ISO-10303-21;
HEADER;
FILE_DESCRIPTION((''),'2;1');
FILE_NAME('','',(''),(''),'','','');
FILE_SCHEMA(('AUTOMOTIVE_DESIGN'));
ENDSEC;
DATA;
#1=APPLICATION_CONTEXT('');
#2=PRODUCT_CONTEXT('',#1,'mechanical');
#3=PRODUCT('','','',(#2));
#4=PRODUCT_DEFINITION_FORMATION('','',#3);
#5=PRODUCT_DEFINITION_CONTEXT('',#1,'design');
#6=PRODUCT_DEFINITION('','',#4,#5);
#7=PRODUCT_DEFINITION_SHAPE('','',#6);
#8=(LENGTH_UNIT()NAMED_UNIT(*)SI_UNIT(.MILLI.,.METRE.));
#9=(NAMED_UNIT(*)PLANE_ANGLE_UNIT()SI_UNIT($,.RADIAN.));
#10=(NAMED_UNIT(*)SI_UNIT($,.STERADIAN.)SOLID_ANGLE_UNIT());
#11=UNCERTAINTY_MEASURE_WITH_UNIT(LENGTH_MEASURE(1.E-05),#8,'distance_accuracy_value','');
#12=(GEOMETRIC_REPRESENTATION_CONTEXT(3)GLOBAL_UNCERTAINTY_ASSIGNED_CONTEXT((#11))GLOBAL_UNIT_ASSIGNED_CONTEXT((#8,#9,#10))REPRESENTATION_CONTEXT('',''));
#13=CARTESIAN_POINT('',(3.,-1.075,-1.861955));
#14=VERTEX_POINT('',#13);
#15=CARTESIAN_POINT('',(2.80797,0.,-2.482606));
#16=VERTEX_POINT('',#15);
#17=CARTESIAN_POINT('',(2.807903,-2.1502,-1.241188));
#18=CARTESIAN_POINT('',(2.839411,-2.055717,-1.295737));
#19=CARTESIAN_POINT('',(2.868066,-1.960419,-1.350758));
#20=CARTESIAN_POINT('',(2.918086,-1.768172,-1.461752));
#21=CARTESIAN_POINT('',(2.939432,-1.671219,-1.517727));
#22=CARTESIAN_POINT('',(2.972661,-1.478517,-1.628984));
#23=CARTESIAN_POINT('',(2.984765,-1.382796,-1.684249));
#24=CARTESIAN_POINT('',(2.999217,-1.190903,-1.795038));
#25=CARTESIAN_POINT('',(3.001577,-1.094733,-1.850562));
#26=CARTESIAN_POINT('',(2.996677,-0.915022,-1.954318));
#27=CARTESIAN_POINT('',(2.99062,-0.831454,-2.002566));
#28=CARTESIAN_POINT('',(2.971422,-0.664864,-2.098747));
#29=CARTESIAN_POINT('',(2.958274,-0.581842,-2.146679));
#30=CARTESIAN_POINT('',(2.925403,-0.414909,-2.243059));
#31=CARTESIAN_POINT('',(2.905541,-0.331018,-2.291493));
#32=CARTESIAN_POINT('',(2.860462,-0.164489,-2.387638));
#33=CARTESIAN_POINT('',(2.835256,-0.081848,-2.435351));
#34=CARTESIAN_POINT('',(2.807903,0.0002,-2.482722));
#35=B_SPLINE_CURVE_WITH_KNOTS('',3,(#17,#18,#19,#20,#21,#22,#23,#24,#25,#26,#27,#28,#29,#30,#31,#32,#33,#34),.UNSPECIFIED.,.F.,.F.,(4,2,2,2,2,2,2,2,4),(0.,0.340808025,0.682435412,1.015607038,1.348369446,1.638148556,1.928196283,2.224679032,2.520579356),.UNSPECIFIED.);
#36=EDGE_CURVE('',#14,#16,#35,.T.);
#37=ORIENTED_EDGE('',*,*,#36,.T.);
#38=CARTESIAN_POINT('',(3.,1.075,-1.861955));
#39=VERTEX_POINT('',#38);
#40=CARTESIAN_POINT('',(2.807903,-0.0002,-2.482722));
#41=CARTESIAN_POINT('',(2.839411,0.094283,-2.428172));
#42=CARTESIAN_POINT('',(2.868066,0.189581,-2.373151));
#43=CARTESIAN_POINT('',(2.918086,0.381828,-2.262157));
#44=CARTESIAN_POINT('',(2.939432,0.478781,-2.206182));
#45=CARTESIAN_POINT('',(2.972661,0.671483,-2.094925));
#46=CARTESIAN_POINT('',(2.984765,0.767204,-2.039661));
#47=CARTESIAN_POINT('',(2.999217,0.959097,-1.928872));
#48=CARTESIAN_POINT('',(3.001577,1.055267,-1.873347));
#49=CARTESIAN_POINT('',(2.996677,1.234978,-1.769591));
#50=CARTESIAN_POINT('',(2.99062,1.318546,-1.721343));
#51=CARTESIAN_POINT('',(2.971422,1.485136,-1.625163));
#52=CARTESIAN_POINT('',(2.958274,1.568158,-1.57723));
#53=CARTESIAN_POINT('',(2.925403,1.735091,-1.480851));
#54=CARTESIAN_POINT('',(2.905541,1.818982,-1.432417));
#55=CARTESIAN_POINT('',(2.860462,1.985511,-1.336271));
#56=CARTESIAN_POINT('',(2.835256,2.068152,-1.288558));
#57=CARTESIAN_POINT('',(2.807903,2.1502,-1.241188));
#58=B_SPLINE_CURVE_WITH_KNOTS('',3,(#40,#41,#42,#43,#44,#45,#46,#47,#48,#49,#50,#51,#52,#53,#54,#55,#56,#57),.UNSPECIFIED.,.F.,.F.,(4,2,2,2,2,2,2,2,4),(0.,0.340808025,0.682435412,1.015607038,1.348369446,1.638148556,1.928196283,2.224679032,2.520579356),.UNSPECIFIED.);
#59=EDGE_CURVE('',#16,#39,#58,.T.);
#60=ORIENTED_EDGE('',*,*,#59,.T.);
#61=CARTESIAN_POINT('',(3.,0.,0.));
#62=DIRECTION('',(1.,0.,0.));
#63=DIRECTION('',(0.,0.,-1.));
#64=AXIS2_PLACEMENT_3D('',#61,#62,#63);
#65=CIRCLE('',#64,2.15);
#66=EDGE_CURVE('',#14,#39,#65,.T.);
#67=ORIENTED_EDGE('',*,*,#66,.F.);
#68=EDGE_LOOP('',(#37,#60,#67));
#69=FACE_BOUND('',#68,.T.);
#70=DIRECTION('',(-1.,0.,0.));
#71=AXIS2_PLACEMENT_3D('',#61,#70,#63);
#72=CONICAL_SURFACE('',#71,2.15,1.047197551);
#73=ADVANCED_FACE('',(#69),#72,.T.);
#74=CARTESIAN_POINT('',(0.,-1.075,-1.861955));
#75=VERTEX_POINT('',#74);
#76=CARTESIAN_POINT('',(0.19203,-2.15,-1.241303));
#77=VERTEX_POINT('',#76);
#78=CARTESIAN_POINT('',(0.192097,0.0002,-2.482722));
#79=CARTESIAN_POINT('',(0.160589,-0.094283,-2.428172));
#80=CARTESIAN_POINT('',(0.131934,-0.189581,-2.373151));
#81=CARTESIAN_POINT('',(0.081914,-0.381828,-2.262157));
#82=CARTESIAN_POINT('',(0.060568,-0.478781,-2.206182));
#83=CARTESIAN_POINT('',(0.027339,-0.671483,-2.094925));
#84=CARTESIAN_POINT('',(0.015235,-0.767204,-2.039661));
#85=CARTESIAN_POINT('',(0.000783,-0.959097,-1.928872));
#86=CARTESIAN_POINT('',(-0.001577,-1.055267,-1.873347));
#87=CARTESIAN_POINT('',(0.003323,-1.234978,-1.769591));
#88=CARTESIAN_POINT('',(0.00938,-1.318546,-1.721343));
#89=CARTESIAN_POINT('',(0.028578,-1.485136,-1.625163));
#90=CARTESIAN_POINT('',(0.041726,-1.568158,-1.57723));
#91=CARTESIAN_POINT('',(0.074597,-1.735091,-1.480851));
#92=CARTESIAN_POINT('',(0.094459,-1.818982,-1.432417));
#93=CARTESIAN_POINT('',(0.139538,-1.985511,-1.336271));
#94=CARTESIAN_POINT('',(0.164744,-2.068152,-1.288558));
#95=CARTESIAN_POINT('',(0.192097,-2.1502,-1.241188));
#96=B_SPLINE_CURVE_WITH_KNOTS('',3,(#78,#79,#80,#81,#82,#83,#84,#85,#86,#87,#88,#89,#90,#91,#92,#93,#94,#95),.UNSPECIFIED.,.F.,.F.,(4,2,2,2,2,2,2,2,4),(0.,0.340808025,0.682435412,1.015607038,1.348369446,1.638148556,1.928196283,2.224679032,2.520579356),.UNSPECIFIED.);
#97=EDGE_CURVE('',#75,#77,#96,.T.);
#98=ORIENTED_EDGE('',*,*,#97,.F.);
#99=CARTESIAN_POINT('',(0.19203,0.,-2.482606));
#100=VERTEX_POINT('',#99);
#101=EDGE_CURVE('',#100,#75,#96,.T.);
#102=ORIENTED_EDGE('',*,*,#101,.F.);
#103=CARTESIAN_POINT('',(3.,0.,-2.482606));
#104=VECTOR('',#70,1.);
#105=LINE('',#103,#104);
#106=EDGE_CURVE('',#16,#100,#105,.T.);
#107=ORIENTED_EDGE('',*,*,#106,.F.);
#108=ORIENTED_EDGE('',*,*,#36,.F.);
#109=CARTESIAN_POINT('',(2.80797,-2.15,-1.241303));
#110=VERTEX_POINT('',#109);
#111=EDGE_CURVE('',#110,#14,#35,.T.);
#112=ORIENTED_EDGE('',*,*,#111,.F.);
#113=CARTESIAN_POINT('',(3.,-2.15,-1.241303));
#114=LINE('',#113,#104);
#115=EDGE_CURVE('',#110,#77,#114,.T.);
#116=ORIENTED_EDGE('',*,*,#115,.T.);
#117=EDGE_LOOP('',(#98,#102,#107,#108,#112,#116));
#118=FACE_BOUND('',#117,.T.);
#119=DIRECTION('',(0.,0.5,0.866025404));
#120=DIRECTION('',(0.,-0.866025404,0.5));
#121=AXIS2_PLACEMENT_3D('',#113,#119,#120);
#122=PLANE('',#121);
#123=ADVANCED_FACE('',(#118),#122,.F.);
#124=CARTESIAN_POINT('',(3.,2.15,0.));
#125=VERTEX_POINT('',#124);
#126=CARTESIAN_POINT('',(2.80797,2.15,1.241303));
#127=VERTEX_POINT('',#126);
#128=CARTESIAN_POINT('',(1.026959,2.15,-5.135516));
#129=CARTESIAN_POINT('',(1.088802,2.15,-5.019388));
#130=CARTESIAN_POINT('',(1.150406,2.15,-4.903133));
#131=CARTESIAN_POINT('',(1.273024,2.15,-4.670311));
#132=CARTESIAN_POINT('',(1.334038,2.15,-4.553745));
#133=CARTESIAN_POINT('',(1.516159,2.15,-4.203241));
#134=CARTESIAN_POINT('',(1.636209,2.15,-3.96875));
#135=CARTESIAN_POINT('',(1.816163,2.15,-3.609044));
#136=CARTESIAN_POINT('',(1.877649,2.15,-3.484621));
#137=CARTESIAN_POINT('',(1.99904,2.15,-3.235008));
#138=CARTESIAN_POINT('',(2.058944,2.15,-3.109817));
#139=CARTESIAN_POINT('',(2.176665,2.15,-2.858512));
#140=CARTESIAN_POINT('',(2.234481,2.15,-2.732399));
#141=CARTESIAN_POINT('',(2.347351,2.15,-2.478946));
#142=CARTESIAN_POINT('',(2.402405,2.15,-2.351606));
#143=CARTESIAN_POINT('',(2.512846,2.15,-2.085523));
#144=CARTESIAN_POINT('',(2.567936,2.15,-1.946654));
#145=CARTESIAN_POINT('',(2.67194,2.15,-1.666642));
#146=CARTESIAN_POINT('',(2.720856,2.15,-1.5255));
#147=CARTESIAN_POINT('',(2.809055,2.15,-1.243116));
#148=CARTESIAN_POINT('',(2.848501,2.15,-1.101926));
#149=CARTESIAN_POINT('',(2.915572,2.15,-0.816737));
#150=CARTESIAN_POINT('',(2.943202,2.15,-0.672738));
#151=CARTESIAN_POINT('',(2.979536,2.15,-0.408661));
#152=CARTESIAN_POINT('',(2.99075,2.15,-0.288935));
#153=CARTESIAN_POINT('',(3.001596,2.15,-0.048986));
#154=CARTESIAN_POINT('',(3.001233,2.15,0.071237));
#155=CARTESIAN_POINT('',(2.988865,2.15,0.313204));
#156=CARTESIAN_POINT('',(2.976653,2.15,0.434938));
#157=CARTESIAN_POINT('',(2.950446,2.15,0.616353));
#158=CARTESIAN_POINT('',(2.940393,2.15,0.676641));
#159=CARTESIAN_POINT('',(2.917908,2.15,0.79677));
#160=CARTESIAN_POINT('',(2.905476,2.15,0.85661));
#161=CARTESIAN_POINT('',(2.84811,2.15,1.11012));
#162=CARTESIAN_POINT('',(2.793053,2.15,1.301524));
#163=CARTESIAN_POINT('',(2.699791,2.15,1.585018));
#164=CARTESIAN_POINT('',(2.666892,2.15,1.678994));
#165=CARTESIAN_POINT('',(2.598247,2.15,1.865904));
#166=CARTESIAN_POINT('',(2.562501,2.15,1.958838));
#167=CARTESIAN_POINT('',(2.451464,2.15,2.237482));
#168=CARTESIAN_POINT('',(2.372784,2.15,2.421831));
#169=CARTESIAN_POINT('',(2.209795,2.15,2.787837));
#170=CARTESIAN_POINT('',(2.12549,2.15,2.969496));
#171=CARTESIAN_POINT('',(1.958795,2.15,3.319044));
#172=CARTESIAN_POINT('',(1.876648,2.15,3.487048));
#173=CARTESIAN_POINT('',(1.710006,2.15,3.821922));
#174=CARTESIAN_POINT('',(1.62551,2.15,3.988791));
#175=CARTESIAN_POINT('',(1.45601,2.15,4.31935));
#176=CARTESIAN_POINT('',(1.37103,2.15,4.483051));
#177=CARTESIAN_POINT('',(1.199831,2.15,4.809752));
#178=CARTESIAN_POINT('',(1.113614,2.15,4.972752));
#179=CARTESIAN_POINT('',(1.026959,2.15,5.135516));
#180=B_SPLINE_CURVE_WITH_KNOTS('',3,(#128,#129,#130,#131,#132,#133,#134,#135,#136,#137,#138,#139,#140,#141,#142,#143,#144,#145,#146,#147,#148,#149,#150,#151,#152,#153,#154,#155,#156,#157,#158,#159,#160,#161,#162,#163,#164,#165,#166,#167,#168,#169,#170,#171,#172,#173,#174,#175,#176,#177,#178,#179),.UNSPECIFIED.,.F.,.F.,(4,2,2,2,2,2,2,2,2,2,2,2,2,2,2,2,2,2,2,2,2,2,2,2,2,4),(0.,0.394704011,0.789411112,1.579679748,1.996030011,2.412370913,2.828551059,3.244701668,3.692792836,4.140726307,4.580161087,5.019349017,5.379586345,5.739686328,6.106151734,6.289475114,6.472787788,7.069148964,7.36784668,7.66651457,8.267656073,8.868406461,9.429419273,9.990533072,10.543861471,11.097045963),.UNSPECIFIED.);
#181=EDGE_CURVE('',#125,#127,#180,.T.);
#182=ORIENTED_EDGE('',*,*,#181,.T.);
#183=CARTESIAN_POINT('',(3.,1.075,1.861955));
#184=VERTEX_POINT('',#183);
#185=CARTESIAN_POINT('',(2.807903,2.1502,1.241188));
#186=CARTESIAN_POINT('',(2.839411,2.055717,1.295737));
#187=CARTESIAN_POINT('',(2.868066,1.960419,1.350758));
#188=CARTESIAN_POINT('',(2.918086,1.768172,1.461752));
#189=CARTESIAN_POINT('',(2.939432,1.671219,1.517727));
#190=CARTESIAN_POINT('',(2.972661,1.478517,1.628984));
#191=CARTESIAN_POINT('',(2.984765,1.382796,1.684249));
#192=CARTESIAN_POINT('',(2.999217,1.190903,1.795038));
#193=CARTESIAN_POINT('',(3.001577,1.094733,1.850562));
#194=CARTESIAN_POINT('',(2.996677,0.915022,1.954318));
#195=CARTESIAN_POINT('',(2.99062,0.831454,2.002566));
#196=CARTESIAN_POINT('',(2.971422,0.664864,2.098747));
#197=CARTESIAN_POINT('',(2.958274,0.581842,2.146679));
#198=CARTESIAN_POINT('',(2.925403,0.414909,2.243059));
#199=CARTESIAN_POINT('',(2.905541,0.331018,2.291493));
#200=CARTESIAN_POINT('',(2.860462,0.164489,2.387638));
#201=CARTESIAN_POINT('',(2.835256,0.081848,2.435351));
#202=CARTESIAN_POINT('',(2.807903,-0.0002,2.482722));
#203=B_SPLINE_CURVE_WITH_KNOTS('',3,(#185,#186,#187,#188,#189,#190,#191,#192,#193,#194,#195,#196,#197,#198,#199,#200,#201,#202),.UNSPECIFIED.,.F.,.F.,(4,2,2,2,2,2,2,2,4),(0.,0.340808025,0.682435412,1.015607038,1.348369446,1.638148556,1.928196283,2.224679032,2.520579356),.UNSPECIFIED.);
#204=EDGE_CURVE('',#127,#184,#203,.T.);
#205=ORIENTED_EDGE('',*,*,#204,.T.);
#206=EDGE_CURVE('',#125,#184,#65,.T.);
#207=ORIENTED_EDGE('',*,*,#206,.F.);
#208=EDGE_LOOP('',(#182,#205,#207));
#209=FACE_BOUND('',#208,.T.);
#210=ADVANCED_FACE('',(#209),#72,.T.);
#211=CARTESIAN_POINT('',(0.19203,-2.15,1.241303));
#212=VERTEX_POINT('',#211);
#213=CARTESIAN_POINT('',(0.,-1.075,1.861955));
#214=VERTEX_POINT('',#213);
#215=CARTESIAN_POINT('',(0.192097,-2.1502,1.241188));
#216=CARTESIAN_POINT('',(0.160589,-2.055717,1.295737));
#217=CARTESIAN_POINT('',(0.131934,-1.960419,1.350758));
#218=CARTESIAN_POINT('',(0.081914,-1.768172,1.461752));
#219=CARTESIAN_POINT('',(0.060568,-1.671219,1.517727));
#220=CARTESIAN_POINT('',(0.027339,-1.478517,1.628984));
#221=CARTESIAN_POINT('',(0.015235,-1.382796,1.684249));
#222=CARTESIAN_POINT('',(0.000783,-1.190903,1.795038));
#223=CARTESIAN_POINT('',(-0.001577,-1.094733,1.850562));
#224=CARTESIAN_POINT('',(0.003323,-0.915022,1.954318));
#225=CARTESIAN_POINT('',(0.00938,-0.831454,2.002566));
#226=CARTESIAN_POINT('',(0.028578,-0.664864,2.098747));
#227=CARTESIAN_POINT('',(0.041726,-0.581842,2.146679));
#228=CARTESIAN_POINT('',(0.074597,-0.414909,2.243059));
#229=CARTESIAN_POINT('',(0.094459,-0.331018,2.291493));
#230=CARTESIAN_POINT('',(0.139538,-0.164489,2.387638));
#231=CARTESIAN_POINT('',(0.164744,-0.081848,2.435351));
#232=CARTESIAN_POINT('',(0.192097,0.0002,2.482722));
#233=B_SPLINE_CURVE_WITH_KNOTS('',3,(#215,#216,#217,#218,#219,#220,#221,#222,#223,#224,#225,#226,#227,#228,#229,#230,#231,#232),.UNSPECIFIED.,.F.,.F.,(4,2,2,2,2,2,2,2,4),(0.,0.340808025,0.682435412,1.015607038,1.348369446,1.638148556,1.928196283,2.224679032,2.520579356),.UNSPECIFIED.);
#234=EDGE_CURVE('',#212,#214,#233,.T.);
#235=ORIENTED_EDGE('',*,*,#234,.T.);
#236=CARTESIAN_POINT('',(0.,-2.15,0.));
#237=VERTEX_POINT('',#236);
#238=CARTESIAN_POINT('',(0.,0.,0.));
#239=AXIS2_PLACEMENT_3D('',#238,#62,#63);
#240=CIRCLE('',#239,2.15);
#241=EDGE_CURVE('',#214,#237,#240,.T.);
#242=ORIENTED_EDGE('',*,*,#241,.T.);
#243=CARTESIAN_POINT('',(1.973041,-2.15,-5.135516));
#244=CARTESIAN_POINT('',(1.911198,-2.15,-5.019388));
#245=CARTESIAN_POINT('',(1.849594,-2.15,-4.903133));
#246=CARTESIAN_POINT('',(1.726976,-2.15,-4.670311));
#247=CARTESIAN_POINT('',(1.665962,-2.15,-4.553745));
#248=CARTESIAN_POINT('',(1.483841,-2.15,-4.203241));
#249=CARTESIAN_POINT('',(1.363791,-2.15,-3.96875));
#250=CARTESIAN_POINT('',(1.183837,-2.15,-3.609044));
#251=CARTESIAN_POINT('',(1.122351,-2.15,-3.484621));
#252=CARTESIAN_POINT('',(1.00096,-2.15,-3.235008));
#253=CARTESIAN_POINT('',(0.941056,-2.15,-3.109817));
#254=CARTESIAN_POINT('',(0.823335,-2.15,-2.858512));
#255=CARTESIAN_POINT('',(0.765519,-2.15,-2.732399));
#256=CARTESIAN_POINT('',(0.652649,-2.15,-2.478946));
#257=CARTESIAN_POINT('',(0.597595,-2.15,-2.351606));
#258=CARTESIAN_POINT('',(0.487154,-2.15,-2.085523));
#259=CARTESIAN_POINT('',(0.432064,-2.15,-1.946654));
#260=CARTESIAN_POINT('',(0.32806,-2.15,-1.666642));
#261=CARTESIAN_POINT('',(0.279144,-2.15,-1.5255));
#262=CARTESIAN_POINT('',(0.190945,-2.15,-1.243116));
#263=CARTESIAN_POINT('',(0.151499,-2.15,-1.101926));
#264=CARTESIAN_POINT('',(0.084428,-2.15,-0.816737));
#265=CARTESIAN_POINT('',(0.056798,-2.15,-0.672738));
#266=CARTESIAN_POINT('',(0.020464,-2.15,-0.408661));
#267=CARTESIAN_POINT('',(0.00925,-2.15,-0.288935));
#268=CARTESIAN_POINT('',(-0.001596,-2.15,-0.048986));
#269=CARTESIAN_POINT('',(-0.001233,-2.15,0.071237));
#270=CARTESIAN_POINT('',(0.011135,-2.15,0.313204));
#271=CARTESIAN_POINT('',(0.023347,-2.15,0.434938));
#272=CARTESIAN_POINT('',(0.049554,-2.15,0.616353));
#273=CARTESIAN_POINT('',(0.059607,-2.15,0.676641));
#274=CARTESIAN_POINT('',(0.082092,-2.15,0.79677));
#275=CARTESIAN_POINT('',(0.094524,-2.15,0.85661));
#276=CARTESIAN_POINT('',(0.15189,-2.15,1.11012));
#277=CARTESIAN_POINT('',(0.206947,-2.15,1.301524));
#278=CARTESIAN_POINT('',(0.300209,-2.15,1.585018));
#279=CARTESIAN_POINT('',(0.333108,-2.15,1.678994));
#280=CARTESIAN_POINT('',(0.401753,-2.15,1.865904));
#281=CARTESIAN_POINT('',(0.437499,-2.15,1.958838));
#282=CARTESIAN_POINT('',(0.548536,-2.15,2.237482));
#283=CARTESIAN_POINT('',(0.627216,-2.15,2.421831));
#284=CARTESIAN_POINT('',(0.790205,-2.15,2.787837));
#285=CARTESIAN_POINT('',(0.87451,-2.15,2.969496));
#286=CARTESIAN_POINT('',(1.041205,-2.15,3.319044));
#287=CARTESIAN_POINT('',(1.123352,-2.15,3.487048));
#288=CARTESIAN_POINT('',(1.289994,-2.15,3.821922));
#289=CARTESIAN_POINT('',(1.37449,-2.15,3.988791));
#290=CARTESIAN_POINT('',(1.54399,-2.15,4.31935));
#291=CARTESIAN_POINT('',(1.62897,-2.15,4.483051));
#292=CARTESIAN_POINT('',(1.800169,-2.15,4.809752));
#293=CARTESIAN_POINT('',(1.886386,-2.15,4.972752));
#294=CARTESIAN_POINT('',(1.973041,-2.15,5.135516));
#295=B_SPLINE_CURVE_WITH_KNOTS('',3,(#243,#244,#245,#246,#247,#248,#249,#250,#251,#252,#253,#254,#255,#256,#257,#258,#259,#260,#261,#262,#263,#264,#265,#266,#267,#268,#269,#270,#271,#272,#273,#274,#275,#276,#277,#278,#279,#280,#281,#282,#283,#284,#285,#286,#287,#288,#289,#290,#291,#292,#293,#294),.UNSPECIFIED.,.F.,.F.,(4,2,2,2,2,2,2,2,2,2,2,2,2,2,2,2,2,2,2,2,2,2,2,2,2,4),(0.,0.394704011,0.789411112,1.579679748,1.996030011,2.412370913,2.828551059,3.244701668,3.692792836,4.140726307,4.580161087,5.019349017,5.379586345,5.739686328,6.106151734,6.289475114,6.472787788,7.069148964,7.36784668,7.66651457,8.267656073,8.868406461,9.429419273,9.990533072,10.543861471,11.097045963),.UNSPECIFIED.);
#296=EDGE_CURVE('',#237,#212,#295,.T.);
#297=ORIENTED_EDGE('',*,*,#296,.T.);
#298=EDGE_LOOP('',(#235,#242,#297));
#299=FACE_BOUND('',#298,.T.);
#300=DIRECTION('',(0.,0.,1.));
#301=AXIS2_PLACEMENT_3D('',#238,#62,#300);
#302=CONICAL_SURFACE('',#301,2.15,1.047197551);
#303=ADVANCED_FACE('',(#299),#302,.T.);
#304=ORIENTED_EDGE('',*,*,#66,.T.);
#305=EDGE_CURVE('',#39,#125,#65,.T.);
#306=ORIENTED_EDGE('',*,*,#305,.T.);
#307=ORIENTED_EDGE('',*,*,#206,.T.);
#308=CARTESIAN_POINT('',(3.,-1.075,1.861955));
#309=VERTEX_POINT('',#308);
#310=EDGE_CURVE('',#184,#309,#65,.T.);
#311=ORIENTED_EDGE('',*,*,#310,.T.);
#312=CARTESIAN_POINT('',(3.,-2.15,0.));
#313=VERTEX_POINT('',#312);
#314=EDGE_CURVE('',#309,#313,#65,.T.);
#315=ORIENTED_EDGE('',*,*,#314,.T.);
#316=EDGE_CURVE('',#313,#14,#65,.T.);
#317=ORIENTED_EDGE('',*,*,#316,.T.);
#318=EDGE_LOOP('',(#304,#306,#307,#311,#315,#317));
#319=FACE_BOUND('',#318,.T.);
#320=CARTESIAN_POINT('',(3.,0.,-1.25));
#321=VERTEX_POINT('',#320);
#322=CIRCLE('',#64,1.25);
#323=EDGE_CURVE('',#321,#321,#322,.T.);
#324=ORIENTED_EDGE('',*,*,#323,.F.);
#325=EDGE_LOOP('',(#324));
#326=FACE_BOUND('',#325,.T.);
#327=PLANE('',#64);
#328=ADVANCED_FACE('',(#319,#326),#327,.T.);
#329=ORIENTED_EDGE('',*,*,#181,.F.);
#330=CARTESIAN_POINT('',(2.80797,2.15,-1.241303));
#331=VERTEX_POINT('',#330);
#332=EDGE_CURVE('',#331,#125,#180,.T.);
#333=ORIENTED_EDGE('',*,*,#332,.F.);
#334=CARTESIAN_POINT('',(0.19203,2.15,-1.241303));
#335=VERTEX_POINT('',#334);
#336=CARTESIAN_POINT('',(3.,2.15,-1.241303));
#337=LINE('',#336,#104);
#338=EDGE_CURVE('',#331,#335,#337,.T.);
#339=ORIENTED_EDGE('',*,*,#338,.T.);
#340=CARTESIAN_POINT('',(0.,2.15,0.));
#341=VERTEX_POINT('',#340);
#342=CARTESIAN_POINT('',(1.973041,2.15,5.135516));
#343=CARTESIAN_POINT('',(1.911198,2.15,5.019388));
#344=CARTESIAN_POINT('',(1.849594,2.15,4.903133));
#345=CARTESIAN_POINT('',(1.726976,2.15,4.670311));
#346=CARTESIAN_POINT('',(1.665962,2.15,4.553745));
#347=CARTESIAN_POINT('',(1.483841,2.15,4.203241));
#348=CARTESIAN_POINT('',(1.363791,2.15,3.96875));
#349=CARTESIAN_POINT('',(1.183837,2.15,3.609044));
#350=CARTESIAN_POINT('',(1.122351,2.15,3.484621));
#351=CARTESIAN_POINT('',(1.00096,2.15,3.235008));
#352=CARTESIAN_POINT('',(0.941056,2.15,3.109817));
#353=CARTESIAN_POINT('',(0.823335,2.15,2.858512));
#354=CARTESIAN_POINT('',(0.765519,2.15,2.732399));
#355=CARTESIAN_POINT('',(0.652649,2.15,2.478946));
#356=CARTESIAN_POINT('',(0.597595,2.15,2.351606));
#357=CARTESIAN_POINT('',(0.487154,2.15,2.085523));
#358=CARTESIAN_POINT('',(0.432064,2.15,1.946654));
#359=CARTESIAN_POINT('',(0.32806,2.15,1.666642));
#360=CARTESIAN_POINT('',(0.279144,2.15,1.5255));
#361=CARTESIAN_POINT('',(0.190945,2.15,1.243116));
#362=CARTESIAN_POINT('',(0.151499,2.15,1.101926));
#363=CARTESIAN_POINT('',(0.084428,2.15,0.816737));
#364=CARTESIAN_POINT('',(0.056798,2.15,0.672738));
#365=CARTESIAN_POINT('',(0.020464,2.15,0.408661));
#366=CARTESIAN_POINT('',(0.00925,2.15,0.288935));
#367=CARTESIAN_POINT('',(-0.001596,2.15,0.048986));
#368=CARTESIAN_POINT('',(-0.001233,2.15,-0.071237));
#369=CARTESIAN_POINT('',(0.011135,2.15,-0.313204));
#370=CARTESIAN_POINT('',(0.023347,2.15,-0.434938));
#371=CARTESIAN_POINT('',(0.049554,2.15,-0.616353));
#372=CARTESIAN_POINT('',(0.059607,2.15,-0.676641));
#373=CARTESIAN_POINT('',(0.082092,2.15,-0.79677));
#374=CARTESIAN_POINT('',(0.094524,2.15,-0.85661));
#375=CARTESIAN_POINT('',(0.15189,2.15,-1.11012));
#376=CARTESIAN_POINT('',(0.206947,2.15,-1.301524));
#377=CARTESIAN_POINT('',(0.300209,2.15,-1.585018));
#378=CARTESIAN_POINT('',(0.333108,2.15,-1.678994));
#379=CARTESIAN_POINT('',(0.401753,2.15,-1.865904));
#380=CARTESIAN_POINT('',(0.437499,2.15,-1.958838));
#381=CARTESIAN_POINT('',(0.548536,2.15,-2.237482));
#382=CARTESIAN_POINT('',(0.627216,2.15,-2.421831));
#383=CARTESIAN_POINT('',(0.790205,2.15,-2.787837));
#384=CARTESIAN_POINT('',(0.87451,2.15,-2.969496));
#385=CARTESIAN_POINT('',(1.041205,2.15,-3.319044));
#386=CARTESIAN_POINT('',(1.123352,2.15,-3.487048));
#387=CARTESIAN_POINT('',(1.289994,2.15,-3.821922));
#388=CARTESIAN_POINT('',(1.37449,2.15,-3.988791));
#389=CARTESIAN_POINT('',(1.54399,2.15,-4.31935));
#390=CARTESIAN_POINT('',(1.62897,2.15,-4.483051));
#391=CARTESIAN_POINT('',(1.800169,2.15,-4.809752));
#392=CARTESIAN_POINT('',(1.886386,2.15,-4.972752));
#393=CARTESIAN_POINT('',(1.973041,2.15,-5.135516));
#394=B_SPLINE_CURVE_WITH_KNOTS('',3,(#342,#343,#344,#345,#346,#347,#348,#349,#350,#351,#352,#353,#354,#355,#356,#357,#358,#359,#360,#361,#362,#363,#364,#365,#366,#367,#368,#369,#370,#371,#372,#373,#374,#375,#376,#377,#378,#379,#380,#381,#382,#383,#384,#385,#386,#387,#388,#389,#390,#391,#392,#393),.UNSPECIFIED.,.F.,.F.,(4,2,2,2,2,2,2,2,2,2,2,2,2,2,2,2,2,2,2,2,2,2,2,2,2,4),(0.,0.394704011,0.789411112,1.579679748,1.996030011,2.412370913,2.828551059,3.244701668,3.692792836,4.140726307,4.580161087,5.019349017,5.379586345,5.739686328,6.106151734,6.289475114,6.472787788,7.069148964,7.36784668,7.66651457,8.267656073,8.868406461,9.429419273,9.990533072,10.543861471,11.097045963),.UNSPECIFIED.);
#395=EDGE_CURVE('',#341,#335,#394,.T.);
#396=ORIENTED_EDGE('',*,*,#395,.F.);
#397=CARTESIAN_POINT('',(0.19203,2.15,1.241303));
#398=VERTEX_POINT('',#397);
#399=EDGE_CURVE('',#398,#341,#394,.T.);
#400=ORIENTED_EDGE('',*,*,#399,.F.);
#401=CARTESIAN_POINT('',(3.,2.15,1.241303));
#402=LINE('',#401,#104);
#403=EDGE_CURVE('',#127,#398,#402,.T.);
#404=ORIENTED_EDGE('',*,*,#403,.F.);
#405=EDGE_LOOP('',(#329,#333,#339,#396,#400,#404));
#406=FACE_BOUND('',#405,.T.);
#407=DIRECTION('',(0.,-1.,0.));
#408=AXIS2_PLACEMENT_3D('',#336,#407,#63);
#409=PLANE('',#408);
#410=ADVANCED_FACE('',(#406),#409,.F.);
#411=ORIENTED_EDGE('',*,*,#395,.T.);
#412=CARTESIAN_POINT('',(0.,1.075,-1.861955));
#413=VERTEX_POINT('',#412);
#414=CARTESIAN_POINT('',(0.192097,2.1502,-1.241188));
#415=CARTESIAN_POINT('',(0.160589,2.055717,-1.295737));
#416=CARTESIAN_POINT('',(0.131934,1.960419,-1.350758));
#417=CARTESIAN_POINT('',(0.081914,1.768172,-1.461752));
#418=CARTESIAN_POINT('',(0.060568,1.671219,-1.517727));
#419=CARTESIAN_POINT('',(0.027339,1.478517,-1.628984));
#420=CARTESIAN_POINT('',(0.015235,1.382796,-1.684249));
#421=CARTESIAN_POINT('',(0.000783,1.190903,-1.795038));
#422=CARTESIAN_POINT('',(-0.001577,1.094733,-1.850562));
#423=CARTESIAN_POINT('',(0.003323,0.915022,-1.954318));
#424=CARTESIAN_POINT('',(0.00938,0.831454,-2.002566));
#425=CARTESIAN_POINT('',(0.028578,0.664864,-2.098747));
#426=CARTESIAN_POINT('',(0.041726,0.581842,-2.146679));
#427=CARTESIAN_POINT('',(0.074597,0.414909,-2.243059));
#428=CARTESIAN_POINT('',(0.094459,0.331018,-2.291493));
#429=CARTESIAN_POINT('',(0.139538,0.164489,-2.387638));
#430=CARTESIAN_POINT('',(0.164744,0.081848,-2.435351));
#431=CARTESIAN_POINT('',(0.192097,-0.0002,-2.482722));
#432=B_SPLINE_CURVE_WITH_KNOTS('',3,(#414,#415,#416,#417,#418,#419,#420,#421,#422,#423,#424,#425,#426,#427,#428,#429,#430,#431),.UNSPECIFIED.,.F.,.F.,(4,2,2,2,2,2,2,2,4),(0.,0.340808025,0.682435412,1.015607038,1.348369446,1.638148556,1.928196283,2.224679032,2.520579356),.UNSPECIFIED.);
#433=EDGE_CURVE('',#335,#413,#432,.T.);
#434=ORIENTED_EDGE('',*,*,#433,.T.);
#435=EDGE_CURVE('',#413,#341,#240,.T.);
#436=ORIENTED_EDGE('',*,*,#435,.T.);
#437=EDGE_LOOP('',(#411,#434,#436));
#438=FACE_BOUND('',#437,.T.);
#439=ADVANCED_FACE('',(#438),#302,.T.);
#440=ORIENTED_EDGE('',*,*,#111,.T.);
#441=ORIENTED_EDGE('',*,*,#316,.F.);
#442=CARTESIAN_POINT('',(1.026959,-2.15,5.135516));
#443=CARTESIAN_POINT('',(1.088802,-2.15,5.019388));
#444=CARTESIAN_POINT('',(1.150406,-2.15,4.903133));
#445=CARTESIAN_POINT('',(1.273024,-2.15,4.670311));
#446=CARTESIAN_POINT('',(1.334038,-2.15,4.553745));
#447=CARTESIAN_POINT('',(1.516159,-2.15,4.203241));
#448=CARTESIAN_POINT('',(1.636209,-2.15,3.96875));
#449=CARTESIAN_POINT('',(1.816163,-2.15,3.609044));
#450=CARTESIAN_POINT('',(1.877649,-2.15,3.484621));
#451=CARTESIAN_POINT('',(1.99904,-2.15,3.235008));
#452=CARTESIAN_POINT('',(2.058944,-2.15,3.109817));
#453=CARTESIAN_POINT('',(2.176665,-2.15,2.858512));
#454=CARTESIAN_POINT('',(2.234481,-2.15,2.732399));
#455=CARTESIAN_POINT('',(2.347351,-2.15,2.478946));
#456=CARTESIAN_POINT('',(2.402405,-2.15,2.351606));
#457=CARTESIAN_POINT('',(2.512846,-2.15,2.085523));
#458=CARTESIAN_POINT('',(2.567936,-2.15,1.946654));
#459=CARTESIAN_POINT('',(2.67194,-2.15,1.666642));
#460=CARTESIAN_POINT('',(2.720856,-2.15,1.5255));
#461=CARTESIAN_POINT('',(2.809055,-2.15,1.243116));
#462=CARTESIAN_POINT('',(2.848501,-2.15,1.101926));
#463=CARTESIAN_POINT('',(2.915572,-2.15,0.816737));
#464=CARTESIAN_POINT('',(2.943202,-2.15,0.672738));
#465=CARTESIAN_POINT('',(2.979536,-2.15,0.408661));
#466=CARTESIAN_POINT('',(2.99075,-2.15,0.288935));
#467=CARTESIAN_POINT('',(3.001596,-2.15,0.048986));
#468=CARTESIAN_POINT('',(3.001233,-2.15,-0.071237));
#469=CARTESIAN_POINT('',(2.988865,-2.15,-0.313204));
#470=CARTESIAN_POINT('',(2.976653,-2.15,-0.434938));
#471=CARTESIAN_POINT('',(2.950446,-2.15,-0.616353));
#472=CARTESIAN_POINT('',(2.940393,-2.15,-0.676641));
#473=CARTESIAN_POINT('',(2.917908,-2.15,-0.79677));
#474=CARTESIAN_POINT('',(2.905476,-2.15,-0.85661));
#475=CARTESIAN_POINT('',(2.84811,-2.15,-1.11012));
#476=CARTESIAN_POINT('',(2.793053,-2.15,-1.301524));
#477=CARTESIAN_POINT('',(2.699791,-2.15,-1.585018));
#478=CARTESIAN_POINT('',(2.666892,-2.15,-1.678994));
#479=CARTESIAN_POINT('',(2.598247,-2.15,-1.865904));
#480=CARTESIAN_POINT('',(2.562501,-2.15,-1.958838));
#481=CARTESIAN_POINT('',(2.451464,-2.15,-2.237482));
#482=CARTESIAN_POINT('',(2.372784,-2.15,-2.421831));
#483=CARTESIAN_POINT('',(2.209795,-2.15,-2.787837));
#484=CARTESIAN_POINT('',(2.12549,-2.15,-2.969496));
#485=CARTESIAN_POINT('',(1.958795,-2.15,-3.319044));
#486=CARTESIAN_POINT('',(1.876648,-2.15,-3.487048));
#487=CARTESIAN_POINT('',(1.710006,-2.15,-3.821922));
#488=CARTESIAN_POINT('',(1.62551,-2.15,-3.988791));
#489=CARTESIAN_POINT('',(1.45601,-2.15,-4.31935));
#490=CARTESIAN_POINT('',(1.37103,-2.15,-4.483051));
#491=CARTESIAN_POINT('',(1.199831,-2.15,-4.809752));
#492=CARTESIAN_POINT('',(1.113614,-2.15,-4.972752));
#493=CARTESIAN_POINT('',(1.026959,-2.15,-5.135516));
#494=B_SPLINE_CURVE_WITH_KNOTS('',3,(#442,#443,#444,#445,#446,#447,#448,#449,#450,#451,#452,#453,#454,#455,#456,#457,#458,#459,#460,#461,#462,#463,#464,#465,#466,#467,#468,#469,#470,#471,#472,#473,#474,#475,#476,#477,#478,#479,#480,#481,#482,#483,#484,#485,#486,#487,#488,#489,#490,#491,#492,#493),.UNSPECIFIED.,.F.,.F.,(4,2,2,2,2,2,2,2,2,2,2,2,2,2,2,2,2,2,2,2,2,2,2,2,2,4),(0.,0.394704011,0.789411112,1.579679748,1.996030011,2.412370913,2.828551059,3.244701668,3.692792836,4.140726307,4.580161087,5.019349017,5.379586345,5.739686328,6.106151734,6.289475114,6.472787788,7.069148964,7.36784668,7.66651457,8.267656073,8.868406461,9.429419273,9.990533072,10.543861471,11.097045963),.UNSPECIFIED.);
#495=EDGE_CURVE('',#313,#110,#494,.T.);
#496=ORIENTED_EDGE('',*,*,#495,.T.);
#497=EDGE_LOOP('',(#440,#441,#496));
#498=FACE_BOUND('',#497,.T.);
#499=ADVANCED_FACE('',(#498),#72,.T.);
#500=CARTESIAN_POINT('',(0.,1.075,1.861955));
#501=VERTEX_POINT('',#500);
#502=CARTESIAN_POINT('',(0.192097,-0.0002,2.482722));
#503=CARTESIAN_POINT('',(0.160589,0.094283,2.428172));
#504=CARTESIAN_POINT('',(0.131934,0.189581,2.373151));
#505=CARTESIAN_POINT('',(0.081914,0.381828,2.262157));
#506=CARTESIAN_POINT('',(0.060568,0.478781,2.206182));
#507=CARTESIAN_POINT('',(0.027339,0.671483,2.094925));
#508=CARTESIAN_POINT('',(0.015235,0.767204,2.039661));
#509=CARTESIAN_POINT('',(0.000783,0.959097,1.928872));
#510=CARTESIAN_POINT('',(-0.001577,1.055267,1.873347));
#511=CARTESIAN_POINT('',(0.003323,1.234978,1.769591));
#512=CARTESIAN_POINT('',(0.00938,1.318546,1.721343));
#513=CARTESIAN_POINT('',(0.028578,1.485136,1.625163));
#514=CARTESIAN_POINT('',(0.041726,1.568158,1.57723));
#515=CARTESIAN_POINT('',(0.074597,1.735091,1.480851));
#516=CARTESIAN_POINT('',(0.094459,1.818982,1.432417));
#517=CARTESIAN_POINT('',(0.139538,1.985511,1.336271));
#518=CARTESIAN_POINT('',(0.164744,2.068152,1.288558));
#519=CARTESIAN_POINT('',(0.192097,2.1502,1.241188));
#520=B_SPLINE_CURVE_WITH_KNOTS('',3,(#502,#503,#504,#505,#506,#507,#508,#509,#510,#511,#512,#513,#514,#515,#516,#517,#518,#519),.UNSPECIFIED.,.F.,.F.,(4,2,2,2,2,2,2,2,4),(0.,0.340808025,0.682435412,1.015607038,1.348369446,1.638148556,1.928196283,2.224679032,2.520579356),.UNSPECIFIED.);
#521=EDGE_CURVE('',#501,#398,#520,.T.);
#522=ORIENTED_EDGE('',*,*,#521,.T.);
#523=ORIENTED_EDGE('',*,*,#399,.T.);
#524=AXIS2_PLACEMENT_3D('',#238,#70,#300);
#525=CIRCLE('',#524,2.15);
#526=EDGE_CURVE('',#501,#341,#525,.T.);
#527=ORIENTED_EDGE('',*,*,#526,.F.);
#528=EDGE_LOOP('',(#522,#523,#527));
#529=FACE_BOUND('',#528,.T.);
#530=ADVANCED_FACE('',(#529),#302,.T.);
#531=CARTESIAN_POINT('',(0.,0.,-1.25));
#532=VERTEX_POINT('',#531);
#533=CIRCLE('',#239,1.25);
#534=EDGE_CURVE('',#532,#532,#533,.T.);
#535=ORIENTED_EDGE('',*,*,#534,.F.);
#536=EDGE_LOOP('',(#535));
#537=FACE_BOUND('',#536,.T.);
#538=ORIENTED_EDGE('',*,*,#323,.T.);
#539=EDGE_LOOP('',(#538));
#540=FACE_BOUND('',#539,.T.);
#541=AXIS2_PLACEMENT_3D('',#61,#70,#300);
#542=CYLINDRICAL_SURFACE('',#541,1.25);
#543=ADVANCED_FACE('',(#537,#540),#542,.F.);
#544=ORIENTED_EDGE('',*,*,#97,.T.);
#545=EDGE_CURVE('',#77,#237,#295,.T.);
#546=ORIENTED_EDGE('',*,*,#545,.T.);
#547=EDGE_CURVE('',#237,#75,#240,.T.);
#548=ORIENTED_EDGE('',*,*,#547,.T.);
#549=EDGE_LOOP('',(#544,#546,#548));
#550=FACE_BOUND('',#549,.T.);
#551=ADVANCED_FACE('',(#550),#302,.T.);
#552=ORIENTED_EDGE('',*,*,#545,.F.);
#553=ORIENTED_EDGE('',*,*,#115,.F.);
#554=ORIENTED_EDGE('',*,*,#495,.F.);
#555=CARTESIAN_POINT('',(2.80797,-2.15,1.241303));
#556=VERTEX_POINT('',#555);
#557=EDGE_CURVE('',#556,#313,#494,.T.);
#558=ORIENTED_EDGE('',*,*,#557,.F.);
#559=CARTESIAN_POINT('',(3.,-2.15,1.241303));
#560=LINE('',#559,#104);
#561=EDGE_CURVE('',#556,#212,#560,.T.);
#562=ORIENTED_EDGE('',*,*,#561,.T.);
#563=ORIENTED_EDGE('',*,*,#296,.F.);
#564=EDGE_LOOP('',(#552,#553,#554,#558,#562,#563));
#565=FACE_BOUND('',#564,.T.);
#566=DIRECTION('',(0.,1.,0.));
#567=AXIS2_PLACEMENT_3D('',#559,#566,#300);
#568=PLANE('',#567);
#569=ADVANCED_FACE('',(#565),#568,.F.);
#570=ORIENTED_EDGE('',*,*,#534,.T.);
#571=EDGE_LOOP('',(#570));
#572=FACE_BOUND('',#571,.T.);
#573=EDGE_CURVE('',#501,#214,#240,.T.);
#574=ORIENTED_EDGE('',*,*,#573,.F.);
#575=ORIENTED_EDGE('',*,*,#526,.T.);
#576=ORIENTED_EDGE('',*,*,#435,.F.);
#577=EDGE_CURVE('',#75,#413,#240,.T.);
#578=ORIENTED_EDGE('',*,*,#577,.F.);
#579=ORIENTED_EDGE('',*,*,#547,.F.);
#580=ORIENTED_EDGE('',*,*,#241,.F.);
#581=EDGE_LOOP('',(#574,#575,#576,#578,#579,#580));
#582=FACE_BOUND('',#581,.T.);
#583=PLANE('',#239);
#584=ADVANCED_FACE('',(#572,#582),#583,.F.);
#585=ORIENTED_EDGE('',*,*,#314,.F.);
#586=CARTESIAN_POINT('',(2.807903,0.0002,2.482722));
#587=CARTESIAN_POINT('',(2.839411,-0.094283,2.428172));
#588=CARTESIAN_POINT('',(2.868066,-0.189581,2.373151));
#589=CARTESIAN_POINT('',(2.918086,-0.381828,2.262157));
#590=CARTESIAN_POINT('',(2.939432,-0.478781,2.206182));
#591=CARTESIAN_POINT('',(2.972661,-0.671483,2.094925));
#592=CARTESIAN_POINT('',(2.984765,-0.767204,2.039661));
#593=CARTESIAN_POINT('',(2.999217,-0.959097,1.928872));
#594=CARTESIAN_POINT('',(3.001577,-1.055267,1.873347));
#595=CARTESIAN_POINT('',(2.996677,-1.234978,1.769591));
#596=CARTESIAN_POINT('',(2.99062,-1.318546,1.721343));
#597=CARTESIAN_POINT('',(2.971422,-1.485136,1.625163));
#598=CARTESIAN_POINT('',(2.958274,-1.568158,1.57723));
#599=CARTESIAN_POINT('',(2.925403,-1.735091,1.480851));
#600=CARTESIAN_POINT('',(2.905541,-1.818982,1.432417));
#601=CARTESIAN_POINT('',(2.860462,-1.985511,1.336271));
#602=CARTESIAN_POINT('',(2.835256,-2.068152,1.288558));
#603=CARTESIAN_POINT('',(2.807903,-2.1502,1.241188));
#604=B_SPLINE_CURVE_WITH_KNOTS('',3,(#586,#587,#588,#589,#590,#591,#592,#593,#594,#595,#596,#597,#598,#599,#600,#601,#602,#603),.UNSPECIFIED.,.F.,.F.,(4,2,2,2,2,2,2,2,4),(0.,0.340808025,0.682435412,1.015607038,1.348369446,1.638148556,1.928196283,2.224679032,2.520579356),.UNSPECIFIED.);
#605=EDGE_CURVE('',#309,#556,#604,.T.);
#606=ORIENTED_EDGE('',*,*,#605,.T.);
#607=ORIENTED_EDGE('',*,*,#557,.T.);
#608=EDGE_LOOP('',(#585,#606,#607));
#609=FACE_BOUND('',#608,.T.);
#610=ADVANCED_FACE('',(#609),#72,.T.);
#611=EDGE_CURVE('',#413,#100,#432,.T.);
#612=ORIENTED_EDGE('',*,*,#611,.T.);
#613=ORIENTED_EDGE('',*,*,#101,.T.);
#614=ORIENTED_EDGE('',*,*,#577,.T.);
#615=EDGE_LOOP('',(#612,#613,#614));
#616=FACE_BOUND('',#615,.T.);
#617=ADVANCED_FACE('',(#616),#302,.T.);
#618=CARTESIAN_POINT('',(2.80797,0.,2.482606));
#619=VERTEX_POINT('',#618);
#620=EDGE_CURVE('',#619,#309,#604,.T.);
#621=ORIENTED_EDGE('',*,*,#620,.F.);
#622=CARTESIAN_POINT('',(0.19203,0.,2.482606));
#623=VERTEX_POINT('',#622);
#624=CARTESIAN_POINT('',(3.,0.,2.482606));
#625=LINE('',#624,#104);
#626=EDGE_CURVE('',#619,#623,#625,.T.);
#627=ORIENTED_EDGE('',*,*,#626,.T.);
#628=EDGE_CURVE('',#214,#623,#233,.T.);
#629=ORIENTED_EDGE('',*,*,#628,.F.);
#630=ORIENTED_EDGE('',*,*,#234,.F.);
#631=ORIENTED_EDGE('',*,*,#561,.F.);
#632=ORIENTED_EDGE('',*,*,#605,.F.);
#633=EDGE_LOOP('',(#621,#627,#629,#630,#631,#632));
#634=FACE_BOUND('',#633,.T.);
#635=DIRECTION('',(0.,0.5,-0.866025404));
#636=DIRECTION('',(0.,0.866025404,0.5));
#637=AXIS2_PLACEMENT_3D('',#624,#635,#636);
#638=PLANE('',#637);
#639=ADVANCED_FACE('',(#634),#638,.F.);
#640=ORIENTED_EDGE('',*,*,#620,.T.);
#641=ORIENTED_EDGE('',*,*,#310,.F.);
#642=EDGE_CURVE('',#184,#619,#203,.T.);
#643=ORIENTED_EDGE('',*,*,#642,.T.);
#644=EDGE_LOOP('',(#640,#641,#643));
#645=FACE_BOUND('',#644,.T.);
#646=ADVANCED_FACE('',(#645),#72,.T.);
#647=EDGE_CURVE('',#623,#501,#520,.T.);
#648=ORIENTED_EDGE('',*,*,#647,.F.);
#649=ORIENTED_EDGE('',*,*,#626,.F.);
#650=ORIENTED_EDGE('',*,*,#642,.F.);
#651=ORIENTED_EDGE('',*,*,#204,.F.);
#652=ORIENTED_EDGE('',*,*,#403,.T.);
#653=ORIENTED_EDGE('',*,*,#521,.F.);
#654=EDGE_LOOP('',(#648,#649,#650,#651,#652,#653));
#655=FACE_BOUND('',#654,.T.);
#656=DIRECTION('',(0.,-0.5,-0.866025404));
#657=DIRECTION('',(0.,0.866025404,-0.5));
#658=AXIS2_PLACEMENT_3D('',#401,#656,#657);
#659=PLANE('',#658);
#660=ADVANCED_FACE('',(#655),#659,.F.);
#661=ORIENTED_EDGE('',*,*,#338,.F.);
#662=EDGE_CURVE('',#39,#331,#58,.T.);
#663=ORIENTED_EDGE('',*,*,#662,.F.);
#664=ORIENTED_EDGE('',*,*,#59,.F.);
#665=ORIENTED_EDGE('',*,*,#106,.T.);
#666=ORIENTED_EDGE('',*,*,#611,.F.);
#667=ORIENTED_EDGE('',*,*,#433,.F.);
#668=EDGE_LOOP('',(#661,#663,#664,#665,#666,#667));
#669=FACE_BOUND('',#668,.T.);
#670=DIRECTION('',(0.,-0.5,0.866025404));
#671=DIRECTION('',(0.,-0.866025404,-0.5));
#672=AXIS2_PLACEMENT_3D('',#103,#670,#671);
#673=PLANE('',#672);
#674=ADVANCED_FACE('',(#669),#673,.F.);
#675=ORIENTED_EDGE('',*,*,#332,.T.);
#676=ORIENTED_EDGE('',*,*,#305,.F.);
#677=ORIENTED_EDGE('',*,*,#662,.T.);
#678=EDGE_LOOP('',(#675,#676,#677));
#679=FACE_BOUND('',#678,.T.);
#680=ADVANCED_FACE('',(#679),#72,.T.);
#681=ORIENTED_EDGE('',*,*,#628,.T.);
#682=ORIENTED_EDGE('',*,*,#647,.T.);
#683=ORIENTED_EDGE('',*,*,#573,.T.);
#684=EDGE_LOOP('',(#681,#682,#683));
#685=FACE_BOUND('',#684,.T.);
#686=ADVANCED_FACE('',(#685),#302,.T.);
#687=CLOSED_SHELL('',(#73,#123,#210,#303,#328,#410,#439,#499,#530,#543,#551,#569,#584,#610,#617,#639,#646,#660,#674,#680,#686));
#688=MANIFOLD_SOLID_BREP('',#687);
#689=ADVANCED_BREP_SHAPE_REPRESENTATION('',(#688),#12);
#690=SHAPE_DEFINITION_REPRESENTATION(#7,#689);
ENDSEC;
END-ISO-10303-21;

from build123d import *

# Parameters (mm, degrees)
IZIM1_R                     = 1.25
Y_KSEKLIK_EKSTR_ZYON1_DEPTH = 3
IZIM2_OUTSIDE_W             = 43.052
IZIM2_OUTSIDE_H             = 42.386
IZIM2_OUTSIDE_R             = 2.15
KES_EKSTR_ZYON1_DEPTH       = 10
KES_EKSTR_ZYON1_DRAFT       = -60
IZIM3_OUTSIDE_W             = 43.052
IZIM3_OUTSIDE_H             = 42.386
IZIM3_OUTSIDE_R             = 2.15
KES_EKSTR_ZYON2_DEPTH       = 10
KES_EKSTR_ZYON2_DRAFT       = -60


with BuildPart() as part:
    # Çizim1 → Yükseklik-Ekstrüzyon1 (new body)
    with BuildSketch(Plane(origin=(0, 0, 0), x_dir=(0, 0, -1), z_dir=(1, 0, 0))):
        Polygon((2.482606158, 0), (1.241303079, 2.15), (-1.241303079, 2.15), (-2.482606158, 0), (-1.241303079, -2.15), (1.241303079, -2.15), align=None)
        Circle(IZIM1_R, mode=Mode.SUBTRACT)
    extrude(amount=Y_KSEKLIK_EKSTR_ZYON1_DEPTH)


with BuildPart() as kes_ekstr_zyon1_tool:
    # Çizim2 outside → Kes-Ekstrüzyon1 (with draft: the straight prism first)
    with BuildSketch(Plane(origin=(3, 0, 0), x_dir=(0, 0, -1), z_dir=(1, 0, 0))):
        Rectangle(IZIM2_OUTSIDE_W, IZIM2_OUTSIDE_H)
        Circle(IZIM2_OUTSIDE_R, mode=Mode.SUBTRACT)
    extrude(amount=-KES_EKSTR_ZYON1_DEPTH)
    # Kes-Ekstrüzyon1: the draft: its side faces are tilted about the plane it starts from
    kes_ekstr_zyon1_sides = [kes_ekstr_zyon1_tool.faces().sort_by_distance(p)[0] for p in [
        (-2, -21.193, 0),
        (-2, 0, -21.526),
        (-2, 21.193, 0),
        (-2, 0, 21.526),
        (-2, 0, 2.15),
    ]]
    draft(kes_ekstr_zyon1_sides, Plane(origin=(3, 0, 0), x_dir=(0, 0, -1), z_dir=(1, 0, 0)), KES_EKSTR_ZYON1_DRAFT)


with BuildPart() as part_1:
    add(part.part)

    # Kes-Ekstrüzyon1: cut by kes_ekstr_zyon1_tool
    add(kes_ekstr_zyon1_tool.part, mode=Mode.SUBTRACT)


with BuildPart() as kes_ekstr_zyon2_tool:
    # Çizim3 outside → Kes-Ekstrüzyon2 (with draft: the straight prism first)
    with BuildSketch(Plane.ZY):
        Rectangle(IZIM3_OUTSIDE_W, IZIM3_OUTSIDE_H)
        Circle(IZIM3_OUTSIDE_R, mode=Mode.SUBTRACT)
    extrude(amount=-KES_EKSTR_ZYON2_DEPTH)
    # Kes-Ekstrüzyon2: the draft: its side faces are tilted about the plane it starts from
    kes_ekstr_zyon2_sides = [kes_ekstr_zyon2_tool.faces().sort_by_distance(p)[0] for p in [
        (5, -21.193, 0),
        (5, 0, 21.526),
        (5, 21.193, 0),
        (5, 0, -21.526),
        (5, 0, -2.15),
    ]]
    draft(kes_ekstr_zyon2_sides, Plane.ZY, KES_EKSTR_ZYON2_DRAFT)


with BuildPart() as part_2:
    add(part_1.part)

    # Kes-Ekstrüzyon2: cut by kes_ekstr_zyon2_tool
    add(kes_ekstr_zyon2_tool.part, mode=Mode.SUBTRACT)


solid = part_2.part
